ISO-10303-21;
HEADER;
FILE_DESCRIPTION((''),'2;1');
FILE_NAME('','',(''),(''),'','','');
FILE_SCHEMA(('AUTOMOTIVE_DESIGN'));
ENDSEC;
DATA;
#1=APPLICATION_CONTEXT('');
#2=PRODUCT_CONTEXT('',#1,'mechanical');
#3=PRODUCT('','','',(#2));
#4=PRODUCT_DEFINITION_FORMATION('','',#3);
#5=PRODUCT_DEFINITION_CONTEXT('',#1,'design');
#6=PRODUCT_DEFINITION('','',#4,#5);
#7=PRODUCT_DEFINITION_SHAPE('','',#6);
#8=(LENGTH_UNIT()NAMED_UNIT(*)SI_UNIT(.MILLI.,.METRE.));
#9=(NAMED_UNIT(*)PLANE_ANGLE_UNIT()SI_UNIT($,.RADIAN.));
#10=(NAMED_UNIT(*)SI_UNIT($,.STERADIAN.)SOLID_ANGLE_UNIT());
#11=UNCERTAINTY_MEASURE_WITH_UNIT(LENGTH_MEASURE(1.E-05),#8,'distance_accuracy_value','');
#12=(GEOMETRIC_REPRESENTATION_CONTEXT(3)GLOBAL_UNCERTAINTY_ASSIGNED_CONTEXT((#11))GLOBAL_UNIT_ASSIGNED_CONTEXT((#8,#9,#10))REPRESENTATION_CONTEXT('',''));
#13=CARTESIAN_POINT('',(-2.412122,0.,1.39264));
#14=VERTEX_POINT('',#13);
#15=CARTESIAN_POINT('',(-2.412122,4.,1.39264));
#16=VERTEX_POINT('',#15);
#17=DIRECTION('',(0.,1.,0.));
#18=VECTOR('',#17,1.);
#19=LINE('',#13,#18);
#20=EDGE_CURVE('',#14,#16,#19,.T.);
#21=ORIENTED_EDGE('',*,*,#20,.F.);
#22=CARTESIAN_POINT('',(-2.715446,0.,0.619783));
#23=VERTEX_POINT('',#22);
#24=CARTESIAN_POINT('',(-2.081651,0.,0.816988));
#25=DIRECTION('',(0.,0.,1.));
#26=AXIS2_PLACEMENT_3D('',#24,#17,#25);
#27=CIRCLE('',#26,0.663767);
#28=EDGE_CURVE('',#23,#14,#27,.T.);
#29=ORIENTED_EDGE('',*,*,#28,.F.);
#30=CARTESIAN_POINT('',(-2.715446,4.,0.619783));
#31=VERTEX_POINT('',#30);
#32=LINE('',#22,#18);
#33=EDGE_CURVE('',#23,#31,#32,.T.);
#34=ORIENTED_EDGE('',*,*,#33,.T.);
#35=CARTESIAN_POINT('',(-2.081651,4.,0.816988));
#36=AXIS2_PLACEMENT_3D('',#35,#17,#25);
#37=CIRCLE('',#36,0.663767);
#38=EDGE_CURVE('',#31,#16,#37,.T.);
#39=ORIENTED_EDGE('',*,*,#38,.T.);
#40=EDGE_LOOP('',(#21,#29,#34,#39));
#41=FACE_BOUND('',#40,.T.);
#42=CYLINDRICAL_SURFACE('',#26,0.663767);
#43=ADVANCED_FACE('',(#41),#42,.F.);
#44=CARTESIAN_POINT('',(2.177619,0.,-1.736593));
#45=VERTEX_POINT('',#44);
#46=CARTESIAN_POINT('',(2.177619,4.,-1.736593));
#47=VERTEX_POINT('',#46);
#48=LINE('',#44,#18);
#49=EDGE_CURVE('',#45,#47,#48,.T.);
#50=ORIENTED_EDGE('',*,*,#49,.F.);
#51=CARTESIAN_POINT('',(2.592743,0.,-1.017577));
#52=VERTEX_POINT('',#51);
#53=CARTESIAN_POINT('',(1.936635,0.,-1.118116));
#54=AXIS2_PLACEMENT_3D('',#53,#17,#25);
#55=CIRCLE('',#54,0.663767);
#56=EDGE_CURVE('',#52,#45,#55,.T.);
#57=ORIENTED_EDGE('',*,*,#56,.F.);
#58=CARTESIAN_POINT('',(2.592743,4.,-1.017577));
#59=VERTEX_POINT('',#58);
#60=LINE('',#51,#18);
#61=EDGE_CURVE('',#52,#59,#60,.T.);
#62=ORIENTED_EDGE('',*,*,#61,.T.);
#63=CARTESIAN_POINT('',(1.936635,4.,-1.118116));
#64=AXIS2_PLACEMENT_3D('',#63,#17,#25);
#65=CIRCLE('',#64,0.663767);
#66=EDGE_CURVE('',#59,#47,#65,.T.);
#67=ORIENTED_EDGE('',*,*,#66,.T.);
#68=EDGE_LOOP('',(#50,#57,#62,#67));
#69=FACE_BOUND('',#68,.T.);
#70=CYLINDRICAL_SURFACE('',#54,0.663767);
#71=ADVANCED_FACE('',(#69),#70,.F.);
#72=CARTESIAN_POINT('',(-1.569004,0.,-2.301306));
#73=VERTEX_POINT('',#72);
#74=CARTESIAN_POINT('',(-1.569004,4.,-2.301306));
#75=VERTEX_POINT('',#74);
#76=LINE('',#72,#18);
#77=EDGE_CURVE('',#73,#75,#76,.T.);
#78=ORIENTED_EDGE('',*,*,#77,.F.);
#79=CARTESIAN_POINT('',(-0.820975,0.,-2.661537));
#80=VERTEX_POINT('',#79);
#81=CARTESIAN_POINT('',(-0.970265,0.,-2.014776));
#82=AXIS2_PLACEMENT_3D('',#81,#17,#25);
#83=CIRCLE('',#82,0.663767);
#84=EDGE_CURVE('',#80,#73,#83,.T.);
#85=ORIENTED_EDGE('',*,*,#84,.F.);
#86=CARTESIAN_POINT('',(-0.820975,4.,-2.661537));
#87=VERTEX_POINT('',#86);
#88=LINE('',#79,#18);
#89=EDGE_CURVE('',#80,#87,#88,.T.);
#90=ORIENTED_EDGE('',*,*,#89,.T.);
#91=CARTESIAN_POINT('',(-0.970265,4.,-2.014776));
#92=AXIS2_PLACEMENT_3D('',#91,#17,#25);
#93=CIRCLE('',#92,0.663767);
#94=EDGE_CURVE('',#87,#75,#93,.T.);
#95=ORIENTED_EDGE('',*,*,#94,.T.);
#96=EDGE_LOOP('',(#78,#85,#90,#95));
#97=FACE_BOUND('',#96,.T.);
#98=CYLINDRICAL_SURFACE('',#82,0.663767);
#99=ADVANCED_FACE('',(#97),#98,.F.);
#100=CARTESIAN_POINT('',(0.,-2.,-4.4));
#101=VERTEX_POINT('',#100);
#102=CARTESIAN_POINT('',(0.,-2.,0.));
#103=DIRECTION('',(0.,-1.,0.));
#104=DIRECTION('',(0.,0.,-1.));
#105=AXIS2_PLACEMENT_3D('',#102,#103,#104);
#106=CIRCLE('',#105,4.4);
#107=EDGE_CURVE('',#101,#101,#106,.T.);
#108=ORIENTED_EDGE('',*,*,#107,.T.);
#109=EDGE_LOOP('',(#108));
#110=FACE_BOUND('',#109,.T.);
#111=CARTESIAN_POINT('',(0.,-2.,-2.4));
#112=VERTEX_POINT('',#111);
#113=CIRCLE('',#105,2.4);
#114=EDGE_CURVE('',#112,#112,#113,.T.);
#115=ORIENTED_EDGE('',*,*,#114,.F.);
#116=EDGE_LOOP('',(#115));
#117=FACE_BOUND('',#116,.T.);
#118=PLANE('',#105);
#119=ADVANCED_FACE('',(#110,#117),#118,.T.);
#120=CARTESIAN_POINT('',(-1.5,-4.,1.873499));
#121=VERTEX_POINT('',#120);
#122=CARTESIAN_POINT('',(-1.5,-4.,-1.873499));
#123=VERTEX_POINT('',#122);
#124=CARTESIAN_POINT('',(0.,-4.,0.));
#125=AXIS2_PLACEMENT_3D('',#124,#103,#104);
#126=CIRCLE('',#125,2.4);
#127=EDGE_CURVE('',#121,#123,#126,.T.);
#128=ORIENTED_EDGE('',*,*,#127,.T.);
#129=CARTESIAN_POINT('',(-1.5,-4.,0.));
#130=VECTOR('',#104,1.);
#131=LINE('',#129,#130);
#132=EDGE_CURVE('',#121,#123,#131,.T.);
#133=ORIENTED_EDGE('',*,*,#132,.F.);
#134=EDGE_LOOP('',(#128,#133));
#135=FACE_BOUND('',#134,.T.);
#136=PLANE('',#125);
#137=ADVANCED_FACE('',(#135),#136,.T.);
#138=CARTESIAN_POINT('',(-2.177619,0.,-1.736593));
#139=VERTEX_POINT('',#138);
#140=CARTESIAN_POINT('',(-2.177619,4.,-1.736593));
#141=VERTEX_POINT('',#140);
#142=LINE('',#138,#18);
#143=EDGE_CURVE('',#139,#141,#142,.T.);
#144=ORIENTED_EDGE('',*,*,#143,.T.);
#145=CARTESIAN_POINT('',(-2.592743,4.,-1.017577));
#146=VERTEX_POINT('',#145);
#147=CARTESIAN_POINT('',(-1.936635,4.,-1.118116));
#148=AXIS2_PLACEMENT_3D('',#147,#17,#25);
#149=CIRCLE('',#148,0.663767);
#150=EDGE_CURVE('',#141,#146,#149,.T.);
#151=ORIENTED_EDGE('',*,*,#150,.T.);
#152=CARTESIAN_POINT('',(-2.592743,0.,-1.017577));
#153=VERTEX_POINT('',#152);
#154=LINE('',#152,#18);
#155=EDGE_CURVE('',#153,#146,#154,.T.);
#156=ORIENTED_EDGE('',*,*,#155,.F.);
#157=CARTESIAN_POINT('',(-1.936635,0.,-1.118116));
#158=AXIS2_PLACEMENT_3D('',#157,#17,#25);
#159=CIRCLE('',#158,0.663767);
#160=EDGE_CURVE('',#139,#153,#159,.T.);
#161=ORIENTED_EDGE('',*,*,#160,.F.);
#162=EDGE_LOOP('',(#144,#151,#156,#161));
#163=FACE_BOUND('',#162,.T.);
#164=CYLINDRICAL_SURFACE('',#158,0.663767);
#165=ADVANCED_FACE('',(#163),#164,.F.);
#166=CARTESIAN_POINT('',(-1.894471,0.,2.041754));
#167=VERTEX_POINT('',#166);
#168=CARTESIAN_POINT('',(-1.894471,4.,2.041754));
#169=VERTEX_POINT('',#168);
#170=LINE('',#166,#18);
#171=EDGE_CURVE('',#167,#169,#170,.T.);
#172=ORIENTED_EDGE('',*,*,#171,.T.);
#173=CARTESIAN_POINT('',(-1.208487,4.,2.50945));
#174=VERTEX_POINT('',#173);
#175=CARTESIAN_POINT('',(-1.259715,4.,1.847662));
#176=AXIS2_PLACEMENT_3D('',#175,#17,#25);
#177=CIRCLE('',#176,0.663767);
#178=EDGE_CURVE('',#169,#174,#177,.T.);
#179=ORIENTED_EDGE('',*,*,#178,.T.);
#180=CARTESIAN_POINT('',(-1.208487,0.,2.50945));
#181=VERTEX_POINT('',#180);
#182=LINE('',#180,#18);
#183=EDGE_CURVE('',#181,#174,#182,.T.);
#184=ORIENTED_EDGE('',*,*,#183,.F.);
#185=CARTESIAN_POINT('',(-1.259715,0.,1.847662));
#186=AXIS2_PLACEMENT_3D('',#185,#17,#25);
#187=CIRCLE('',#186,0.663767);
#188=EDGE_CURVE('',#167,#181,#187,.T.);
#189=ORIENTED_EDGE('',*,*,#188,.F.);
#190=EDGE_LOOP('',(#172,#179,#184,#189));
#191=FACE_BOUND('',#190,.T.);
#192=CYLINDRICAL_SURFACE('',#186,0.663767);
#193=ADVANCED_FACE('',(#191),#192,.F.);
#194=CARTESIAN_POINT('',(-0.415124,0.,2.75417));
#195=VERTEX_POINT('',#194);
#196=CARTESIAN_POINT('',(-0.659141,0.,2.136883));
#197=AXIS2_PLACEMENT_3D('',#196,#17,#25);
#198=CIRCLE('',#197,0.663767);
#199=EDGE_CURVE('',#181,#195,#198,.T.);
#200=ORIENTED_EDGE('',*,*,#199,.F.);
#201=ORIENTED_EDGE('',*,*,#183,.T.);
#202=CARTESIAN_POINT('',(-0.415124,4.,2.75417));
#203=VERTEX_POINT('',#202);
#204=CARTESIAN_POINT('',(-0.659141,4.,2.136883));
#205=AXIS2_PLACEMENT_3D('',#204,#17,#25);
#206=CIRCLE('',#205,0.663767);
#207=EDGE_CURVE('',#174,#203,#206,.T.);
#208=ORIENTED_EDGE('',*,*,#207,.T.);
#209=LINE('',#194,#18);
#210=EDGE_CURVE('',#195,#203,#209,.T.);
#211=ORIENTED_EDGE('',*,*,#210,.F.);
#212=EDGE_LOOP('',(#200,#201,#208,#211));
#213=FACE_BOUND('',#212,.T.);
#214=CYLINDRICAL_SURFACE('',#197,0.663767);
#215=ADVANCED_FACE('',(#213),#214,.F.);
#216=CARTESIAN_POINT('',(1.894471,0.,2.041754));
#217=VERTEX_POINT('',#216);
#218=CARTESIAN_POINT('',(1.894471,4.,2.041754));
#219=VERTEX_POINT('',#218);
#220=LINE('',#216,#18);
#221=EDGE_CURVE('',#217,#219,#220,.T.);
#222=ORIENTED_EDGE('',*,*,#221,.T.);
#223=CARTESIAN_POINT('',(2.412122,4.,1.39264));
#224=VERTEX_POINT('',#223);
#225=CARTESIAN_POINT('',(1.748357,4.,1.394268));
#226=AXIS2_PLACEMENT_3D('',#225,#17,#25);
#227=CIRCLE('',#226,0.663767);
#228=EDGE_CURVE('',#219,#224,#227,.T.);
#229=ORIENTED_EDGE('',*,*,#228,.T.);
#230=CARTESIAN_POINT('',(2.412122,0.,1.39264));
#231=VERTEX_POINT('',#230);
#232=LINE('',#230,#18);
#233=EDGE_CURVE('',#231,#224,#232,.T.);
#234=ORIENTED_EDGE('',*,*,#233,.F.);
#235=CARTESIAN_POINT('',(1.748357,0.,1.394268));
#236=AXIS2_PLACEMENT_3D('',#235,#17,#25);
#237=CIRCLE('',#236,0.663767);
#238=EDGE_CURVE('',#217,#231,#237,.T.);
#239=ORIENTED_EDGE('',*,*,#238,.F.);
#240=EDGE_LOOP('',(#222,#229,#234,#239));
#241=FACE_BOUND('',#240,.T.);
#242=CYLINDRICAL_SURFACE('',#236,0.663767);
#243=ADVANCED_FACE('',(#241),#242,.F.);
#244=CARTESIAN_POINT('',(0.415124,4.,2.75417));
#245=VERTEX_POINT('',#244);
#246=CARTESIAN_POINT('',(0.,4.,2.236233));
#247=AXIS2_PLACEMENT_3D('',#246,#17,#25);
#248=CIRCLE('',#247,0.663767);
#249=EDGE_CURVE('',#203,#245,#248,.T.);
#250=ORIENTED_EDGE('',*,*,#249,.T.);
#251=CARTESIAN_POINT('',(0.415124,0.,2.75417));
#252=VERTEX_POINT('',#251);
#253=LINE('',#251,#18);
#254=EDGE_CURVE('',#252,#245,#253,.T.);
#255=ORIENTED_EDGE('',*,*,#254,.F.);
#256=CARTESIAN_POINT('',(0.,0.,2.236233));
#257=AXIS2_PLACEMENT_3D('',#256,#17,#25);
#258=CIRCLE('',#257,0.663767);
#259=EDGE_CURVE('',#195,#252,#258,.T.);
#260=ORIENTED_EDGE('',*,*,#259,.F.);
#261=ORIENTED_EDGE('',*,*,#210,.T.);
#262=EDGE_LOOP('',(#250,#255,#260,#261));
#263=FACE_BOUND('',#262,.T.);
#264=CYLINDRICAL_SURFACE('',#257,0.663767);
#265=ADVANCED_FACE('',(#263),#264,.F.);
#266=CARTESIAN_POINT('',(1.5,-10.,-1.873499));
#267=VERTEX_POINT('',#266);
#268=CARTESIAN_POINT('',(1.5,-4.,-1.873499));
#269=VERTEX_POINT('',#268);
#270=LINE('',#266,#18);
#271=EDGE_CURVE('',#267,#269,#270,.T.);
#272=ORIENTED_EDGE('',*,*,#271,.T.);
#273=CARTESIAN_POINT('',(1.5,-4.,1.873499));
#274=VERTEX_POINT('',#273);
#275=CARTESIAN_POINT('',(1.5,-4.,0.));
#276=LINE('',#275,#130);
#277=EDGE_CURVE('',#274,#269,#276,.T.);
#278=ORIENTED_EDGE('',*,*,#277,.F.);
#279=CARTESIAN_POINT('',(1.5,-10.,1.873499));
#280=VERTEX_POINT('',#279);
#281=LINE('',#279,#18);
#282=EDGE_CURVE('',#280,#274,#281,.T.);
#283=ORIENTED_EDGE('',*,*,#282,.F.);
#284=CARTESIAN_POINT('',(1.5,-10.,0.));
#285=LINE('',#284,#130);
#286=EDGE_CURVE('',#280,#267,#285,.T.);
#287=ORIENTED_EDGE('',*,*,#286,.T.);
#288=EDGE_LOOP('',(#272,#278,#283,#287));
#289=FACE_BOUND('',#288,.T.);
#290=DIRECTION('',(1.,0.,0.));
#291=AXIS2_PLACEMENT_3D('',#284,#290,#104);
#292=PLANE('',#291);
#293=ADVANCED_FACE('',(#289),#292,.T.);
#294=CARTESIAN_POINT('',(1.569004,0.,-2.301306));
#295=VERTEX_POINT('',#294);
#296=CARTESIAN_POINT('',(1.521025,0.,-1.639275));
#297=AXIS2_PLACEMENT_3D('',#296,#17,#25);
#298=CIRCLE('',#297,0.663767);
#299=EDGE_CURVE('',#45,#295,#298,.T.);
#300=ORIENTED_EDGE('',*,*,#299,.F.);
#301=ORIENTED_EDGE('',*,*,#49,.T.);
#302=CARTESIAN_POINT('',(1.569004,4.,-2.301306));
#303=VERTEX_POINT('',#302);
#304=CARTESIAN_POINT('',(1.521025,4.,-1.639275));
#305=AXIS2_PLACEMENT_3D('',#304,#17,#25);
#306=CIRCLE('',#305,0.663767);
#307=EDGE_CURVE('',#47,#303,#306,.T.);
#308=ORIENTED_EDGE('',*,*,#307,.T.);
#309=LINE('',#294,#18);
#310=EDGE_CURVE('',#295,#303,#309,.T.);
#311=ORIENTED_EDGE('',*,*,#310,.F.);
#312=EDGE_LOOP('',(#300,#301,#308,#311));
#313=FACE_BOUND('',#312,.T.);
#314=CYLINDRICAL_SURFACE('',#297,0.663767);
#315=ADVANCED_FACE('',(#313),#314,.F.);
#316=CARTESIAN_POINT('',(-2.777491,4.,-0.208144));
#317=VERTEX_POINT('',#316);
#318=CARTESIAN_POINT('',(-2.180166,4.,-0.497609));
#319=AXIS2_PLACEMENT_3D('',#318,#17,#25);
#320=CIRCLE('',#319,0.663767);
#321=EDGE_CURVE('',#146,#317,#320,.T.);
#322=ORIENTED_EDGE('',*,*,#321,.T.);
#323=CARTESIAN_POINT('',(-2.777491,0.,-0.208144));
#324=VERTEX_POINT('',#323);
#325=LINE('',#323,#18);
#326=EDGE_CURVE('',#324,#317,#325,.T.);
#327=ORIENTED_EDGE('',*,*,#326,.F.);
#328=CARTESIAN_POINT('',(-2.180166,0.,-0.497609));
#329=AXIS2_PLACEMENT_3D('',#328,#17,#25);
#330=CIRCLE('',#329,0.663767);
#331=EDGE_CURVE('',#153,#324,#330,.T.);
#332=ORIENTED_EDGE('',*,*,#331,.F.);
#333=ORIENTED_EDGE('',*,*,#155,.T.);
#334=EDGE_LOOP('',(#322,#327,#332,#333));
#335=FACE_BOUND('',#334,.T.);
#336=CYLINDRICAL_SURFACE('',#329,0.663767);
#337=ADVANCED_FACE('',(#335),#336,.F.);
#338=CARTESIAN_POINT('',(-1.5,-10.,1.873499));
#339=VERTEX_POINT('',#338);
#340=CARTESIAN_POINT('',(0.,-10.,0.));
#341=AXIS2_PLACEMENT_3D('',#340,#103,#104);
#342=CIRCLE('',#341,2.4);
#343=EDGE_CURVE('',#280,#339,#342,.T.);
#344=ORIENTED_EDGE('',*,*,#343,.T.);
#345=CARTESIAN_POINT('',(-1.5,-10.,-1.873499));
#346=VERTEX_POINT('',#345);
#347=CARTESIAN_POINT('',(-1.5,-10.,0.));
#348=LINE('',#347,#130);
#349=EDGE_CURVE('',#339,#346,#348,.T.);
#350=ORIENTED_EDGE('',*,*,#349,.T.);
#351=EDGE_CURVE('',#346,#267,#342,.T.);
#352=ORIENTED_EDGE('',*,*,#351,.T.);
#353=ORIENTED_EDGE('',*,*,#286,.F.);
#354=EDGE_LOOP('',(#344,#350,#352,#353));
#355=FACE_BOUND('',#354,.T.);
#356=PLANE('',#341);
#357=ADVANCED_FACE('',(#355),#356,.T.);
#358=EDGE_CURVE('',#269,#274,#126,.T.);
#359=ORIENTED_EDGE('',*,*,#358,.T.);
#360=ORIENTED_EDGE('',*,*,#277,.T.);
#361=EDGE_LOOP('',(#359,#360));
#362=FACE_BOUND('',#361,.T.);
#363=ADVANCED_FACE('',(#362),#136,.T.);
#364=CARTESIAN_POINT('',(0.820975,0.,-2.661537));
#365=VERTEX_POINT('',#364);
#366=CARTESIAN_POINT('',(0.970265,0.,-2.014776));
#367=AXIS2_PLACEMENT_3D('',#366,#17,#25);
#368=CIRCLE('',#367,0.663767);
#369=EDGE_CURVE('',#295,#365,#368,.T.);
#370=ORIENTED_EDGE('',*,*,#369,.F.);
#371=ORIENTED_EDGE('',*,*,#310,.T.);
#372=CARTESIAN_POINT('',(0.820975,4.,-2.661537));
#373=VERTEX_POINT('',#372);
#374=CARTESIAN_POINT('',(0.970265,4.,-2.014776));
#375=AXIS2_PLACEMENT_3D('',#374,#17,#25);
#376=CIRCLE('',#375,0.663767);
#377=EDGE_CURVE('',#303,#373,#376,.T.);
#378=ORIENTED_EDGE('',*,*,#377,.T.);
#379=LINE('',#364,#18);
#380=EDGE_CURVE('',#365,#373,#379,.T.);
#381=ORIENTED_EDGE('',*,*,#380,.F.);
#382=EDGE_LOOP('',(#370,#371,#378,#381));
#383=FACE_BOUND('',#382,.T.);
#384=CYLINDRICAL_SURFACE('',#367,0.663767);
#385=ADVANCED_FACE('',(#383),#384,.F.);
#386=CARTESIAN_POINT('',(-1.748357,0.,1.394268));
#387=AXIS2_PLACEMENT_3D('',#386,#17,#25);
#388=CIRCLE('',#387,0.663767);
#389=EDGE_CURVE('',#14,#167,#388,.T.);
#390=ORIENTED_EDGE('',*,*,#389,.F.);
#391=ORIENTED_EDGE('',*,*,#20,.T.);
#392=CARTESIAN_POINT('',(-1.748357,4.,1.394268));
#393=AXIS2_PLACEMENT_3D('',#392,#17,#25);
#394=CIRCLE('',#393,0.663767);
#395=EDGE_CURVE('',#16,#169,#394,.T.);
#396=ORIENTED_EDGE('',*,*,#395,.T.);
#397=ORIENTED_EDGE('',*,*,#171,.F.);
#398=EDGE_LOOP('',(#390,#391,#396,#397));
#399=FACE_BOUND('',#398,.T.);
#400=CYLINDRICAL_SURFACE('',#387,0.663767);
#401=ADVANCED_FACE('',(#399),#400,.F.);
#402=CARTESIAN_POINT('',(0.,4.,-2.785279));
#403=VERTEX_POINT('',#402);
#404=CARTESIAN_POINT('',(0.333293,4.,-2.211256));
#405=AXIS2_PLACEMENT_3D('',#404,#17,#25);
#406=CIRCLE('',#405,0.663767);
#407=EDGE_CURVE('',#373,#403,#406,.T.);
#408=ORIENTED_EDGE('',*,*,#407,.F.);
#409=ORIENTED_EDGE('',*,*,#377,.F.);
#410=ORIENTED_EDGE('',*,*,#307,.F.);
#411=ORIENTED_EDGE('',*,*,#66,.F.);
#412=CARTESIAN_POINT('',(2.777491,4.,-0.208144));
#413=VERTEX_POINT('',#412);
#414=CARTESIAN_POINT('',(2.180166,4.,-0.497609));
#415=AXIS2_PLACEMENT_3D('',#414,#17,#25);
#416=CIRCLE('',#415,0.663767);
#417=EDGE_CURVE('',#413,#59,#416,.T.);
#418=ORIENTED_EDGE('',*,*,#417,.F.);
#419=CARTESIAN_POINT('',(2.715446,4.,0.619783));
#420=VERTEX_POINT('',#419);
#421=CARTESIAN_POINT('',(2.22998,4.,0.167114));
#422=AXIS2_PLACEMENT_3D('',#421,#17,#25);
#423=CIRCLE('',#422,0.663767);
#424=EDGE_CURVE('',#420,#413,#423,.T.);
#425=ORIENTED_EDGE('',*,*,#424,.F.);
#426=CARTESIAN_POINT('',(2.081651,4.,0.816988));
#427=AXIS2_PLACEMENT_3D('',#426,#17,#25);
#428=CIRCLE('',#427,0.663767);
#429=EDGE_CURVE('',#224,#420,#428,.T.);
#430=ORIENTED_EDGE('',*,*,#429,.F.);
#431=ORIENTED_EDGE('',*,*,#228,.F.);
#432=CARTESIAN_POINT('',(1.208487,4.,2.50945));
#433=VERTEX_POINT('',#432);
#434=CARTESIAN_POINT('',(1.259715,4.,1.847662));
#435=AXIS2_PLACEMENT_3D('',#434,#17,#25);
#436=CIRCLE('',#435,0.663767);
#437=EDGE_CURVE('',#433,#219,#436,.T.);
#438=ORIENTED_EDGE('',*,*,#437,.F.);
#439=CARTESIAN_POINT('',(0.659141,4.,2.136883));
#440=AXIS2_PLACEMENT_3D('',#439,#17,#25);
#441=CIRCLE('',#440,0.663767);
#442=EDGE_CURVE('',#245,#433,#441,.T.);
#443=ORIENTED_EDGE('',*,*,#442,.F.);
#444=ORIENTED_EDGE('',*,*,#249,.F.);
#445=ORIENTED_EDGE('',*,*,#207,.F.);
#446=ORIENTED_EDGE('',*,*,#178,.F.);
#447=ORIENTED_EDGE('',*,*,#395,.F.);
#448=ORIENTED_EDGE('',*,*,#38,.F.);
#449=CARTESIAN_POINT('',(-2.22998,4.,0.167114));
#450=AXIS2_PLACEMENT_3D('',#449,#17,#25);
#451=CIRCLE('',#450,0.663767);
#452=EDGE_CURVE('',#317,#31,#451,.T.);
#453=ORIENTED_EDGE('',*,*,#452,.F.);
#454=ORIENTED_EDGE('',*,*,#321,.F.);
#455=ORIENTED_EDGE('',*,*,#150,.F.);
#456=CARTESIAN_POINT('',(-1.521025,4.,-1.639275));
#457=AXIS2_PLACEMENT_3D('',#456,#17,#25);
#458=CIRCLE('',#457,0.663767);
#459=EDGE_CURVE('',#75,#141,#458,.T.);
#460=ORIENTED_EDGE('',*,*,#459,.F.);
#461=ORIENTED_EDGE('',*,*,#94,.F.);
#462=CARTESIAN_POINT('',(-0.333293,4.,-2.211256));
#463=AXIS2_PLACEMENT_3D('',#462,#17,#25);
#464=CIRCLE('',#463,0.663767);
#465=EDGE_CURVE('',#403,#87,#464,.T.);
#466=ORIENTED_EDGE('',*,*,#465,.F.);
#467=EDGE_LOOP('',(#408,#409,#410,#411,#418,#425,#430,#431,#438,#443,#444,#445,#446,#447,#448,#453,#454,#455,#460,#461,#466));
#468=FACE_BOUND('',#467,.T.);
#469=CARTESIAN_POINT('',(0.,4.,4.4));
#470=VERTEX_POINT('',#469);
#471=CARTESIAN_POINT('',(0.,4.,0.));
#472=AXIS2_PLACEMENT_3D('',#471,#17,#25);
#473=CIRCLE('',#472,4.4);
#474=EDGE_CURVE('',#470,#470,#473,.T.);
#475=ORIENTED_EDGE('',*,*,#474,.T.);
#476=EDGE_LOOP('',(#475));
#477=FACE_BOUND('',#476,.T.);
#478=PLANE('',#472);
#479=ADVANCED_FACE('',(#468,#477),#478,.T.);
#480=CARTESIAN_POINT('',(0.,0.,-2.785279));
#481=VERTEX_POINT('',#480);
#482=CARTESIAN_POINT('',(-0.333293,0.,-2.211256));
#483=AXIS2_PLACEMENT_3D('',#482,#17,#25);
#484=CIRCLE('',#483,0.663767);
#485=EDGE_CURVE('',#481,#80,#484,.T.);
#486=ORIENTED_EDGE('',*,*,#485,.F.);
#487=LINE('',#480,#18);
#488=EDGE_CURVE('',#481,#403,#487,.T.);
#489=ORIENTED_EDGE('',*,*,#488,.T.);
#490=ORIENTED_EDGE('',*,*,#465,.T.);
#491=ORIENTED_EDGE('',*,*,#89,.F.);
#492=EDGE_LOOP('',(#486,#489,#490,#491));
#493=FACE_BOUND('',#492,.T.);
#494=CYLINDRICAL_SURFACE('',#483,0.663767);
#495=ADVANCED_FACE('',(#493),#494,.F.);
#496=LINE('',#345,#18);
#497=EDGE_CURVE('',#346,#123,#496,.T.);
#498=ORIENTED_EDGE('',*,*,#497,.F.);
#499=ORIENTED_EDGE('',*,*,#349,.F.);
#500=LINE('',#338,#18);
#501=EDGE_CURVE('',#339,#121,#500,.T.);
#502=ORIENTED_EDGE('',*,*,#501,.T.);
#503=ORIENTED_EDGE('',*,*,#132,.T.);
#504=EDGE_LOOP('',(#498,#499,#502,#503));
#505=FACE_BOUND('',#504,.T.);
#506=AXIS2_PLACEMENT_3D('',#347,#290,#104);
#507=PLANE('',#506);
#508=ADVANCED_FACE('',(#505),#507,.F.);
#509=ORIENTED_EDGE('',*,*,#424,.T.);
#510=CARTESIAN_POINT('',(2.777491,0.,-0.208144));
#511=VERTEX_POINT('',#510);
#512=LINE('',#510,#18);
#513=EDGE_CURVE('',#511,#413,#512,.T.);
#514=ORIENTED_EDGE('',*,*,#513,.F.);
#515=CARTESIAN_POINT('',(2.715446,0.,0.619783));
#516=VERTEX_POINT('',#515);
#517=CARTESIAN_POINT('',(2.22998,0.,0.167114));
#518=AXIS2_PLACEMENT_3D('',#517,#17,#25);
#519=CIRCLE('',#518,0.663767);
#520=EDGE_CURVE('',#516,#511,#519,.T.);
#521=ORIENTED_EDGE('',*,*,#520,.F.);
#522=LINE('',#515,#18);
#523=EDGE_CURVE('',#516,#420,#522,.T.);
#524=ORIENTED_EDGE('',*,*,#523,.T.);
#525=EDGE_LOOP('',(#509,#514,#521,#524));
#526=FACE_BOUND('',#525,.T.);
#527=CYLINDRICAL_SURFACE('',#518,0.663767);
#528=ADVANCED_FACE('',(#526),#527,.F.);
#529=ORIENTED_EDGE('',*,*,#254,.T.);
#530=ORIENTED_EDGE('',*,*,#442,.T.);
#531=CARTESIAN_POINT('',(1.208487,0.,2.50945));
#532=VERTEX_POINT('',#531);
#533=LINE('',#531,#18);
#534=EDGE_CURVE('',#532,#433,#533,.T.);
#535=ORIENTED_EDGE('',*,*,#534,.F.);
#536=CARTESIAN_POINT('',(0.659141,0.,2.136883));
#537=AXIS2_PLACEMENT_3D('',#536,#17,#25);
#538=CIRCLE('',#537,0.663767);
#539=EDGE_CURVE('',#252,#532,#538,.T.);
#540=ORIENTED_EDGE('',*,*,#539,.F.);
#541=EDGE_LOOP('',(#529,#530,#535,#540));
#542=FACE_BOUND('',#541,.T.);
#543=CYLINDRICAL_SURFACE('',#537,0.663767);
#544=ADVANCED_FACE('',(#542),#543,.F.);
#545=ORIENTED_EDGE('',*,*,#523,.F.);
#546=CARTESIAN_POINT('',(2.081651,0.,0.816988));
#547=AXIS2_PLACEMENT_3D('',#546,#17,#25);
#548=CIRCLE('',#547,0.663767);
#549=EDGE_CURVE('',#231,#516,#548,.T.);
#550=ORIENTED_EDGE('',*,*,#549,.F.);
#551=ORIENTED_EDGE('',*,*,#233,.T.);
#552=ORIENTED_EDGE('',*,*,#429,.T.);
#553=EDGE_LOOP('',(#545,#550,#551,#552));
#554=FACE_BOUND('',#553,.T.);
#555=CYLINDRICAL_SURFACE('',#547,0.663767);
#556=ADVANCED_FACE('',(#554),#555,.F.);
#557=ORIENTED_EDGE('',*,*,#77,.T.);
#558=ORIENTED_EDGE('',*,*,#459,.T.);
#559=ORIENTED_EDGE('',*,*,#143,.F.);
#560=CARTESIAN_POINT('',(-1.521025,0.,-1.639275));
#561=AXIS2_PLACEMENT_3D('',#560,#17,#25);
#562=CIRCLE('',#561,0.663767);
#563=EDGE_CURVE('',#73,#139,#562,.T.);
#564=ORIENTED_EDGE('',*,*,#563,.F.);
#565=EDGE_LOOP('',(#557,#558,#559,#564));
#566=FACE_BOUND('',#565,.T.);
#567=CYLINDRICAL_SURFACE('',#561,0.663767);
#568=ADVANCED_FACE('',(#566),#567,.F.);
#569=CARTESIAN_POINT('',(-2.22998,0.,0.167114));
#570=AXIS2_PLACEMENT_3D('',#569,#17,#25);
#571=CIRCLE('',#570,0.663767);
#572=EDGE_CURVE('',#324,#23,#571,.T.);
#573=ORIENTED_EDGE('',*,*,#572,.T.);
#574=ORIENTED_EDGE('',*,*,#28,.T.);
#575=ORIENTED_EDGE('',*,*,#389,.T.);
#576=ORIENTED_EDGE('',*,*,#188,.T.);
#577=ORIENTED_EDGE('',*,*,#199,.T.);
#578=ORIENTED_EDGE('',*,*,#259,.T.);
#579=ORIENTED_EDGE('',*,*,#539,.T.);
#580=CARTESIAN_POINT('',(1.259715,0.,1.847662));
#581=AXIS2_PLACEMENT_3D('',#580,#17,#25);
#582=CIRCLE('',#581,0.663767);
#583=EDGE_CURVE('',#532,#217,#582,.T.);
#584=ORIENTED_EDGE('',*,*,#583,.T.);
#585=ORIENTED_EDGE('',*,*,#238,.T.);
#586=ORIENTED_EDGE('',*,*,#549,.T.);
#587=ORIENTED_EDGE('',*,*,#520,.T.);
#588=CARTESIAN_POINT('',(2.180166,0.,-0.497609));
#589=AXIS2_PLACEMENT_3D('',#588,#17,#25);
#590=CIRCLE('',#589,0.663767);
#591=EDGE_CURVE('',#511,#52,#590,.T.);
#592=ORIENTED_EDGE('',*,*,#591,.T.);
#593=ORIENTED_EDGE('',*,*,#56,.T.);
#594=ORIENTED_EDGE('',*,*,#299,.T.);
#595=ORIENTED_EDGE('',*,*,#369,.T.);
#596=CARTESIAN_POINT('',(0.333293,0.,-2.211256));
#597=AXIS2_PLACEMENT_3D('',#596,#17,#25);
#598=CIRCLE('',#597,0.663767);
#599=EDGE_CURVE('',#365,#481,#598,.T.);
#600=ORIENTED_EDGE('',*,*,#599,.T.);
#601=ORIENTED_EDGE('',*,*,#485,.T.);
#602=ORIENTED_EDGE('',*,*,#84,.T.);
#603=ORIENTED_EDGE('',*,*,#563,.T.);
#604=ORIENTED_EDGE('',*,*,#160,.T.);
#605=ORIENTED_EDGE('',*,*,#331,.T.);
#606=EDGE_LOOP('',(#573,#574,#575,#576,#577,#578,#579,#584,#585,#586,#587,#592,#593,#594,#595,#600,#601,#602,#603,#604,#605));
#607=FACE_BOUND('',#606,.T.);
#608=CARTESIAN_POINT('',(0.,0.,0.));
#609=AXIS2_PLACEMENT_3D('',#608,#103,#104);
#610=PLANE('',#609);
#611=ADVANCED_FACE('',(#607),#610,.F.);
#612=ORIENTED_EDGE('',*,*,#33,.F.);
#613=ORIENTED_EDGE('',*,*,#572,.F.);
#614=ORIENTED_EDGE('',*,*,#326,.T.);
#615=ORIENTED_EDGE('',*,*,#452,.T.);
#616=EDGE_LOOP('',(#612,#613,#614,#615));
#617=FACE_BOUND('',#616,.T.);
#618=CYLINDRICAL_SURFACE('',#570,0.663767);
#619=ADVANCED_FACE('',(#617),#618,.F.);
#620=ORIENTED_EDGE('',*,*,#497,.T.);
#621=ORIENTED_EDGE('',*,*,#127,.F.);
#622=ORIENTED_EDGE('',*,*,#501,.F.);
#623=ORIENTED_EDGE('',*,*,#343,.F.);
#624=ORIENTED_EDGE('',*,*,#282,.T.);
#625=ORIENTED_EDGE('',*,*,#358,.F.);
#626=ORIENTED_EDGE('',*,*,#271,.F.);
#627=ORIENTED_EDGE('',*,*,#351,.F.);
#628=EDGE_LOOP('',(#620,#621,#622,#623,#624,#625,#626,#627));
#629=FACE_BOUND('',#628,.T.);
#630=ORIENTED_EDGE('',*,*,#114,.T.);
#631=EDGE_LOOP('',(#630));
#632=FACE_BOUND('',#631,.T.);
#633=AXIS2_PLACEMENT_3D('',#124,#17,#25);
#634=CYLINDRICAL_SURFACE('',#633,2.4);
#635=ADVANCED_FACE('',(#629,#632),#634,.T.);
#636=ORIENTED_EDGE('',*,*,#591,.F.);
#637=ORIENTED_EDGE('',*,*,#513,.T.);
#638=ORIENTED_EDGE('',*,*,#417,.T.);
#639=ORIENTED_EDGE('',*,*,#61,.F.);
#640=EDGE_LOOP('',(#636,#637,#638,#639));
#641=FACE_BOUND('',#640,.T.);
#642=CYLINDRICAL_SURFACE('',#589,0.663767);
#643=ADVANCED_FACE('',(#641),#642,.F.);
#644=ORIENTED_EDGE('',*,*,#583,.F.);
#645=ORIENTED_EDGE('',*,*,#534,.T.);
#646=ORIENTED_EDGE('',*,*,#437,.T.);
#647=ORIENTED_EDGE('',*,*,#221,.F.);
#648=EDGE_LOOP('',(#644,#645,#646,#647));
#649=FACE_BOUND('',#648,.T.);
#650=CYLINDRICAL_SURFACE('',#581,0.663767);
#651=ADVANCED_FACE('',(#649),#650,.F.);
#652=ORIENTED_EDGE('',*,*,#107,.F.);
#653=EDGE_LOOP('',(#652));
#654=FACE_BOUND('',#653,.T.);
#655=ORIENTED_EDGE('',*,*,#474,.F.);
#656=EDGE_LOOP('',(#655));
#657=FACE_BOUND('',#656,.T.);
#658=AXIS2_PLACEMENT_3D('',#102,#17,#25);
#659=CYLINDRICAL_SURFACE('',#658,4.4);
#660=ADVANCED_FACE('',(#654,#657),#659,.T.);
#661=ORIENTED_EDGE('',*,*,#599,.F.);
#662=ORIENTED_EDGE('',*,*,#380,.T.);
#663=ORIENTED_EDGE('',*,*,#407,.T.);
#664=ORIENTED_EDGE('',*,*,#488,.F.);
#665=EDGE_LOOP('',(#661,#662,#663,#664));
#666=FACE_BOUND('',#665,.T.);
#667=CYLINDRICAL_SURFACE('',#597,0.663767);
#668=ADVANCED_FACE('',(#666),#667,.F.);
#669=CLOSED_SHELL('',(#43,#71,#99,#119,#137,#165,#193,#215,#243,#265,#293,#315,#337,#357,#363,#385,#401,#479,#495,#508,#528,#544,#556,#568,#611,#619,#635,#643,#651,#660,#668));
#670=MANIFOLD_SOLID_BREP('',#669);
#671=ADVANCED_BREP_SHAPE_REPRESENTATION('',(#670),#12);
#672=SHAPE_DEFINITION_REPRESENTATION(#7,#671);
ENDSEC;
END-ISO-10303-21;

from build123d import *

# Parameters (mm, degrees)
SKETCH1_R           = 3.95
BOSS_EXTRUDE1_DEPTH = 4
SKETCH2_R           = 4.4
BOSS_EXTRUDE2_DEPTH = 2
SKETCH4_R           = 2.4
BOSS_EXTRUDE3_DEPTH = 2
BOSS_EXTRUDE4_DEPTH = 6
SKETCH6_R           = 4.4
SKETCH6_R_2         = 3.95
BOSS_EXTRUDE5_DEPTH = 4
CUT_EXTRUDE1_START  = -4
CUT_EXTRUDE1_DEPTH  = 4
CUT_EXTRUDE2_START  = -4
CUT_EXTRUDE2_DEPTH  = 4
BOSS_EXTRUDE6_START = -4
BOSS_EXTRUDE6_DEPTH = 4


with BuildPart() as part:
    # Sketch1 → Boss-Extrude1 (new body)
    with BuildSketch(Plane(origin=(0, 0, 0), x_dir=(1, 0, 0), z_dir=(0, 1, 0))):
        Circle(SKETCH1_R)
        with BuildLine():
            ThreePointArc((-0.166646614, 2.345141313), (-0.092401566, 2.286261662), (0, 2.2652595))
            ThreePointArc((0, 2.2652595), (0.092401566, 2.286261662), (0.166646614, 2.345141313))
            ThreePointArc((0.166646614, 2.345141313), (0.365153552, 2.422635524), (0.531999564, 2.290073216))
            ThreePointArc((0.531999564, 2.290073216), (0.585591031, 2.211925311), (0.667696959, 2.164620376))
            ThreePointArc((0.667696959, 2.164620376), (0.762183879, 2.157453631), (0.850485509, 2.191833312))
            ThreePointArc((0.850485509, 2.191833312), (1.063015161, 2.207373726), (1.183375246, 2.031522064))
            ThreePointArc((1.183375246, 2.031522064), (1.211551295, 1.941049689), (1.276066113, 1.871645232))
            ThreePointArc((1.276066113, 1.871645232), (1.364242809, 1.836946378), (1.458755034, 1.843771303))
            ThreePointArc((1.458755034, 1.843771303), (1.666423208, 1.795977086), (1.729602845, 1.592461261))
            ThreePointArc((1.729602845, 1.592461261), (1.72985991, 1.497703284), (1.771051193, 1.412366197))
            ThreePointArc((1.771051193, 1.412366197), (1.845082779, 1.353218377), (1.937407773, 1.331882123))
            ThreePointArc((1.937407773, 1.331882123), (2.121762239, 1.225), (2.12214764, 1.011903287))
            ThreePointArc((2.12214764, 1.011903287), (2.094462881, 0.92127937), (2.108670602, 0.827592226))
            ThreePointArc((2.108670602, 0.827592226), (2.161979047, 0.749250985), (2.243913329, 0.701649371))
            ThreePointArc((2.243913329, 0.701649371), (2.388573385, 0.545176288), (2.326130305, 0.341433266))
            ThreePointArc((2.326130305, 0.341433266), (2.272963633, 0.262995741), (2.258925375, 0.169283054))
            ThreePointArc((2.258925375, 0.169283054), (2.286773988, 0.078709355), (2.351037339, 0.009071994))
            ThreePointArc((2.351037339, 0.009071994), (2.443149303, -0.183088729), (2.323426084, -0.3593746))
            ThreePointArc((2.323426084, -0.3593746), (2.249501592, -0.418656214), (2.208464714, -0.504067659))
            ThreePointArc((2.208464714, -0.504067659), (2.208379026, -0.598825947), (2.249261363, -0.68431147))
            ThreePointArc((2.249261363, -0.68431147), (2.280640684, -0.89508551), (2.114275259, -1.028250455))
            ThreePointArc((2.114275259, -1.028250455), (2.026161462, -1.063108727), (1.961772273, -1.13262975))
            ThreePointArc((1.961772273, -1.13262975), (1.933759896, -1.223152935), (1.947628645, -1.316890857))
            ThreePointArc((1.947628645, -1.316890857), (1.915487132, -1.527550015), (1.717261799, -1.605761745))
            ThreePointArc((1.717261799, -1.605761745), (1.622787995, -1.613099364), (1.540767756, -1.660552716))
            ThreePointArc((1.540767756, -1.660552716), (1.487317713, -1.738797417), (1.472940575, -1.832458712))
            ThreePointArc((1.472940575, -1.832458712), (1.380134142, -2.024284997), (1.167662092, -2.040594058))
            ThreePointArc((1.167662092, -2.040594058), (1.075222693, -2.019759044), (0.982859262, -2.040928287))
            ThreePointArc((0.982859262, -2.040928287), (0.908720824, -2.099942118), (0.86737527, -2.185204569))
            ThreePointArc((0.86737527, -2.185204569), (0.722150177, -2.341153374), (0.514310485, -2.294110633))
            ThreePointArc((0.514310485, -2.294110633), (0.432119136, -2.246954269), (0.337619409, -2.239958423))
            ThreePointArc((0.337619409, -2.239958423), (0.249380102, -2.274497747), (0.184739867, -2.343785411))
            ThreePointArc((0.184739867, -2.343785411), (0, -2.45), (-0.184739867, -2.343785411))
            ThreePointArc((-0.184739867, -2.343785411), (-0.249380102, -2.274497747), (-0.337619409, -2.239958423))
            ThreePointArc((-0.337619409, -2.239958423), (-0.432119136, -2.246954269), (-0.514310485, -2.294110633))
            ThreePointArc((-0.514310485, -2.294110633), (-0.722150177, -2.341153374), (-0.86737527, -2.185204569))
            ThreePointArc((-0.86737527, -2.185204569), (-0.908720824, -2.099942118), (-0.982859262, -2.040928287))
            ThreePointArc((-0.982859262, -2.040928287), (-1.075222693, -2.019759044), (-1.167662092, -2.040594058))
            ThreePointArc((-1.167662092, -2.040594058), (-1.380134142, -2.024284997), (-1.472940575, -1.832458712))
            ThreePointArc((-1.472940575, -1.832458712), (-1.487317713, -1.738797417), (-1.540767756, -1.660552716))
            ThreePointArc((-1.540767756, -1.660552716), (-1.622787995, -1.613099364), (-1.717261799, -1.605761745))
            ThreePointArc((-1.717261799, -1.605761745), (-1.915487132, -1.527550015), (-1.947628645, -1.316890857))
            ThreePointArc((-1.947628645, -1.316890857), (-1.933759896, -1.223152935), (-1.961772273, -1.13262975))
            ThreePointArc((-1.961772273, -1.13262975), (-2.026161462, -1.063108727), (-2.114275259, -1.028250455))
            ThreePointArc((-2.114275259, -1.028250455), (-2.280640684, -0.89508551), (-2.249261363, -0.68431147))
            ThreePointArc((-2.249261363, -0.68431147), (-2.208379026, -0.598825947), (-2.208464714, -0.504067659))
            ThreePointArc((-2.208464714, -0.504067659), (-2.249501592, -0.418656214), (-2.323426084, -0.3593746))
            ThreePointArc((-2.323426084, -0.3593746), (-2.443149303, -0.183088729), (-2.351037339, 0.009071994))
            ThreePointArc((-2.351037339, 0.009071994), (-2.286773988, 0.078709355), (-2.258925375, 0.169283054))
            ThreePointArc((-2.258925375, 0.169283054), (-2.272963633, 0.262995741), (-2.326130305, 0.341433266))
            ThreePointArc((-2.326130305, 0.341433266), (-2.388573385, 0.545176288), (-2.243913329, 0.701649371))
            ThreePointArc((-2.243913329, 0.701649371), (-2.161979047, 0.749250985), (-2.108670602, 0.827592226))
            ThreePointArc((-2.108670602, 0.827592226), (-2.094462881, 0.92127937), (-2.12214764, 1.011903287))
            ThreePointArc((-2.12214764, 1.011903287), (-2.121762239, 1.225), (-1.937407773, 1.331882123))
            ThreePointArc((-1.937407773, 1.331882123), (-1.845082779, 1.353218377), (-1.771051193, 1.412366197))
            ThreePointArc((-1.771051193, 1.412366197), (-1.72985991, 1.497703284), (-1.729602845, 1.592461261))
            ThreePointArc((-1.729602845, 1.592461261), (-1.666423208, 1.795977086), (-1.458755034, 1.843771303))
            ThreePointArc((-1.458755034, 1.843771303), (-1.364242809, 1.836946378), (-1.276066113, 1.871645232))
            ThreePointArc((-1.276066113, 1.871645232), (-1.211551295, 1.941049689), (-1.183375246, 2.031522064))
            ThreePointArc((-1.183375246, 2.031522064), (-1.063015161, 2.207373726), (-0.850485509, 2.191833312))
            ThreePointArc((-0.850485509, 2.191833312), (-0.762183879, 2.157453631), (-0.667696959, 2.164620376))
            ThreePointArc((-0.667696959, 2.164620376), (-0.585591031, 2.211925311), (-0.531999564, 2.290073216))
            ThreePointArc((-0.531999564, 2.290073216), (-0.365153552, 2.422635524), (-0.166646614, 2.345141313))
        make_face(mode=Mode.SUBTRACT)
    extrude(amount=BOSS_EXTRUDE1_DEPTH)

    # Sketch2 → Boss-Extrude2 (add)
    with BuildSketch(Plane.XZ):
        Circle(SKETCH2_R)
    extrude(amount=BOSS_EXTRUDE2_DEPTH)

    # Sketch4 → Boss-Extrude3 (add)
    with BuildSketch(Plane.XZ.offset(2)):
        Circle(SKETCH4_R)
    extrude(amount=BOSS_EXTRUDE3_DEPTH)

    # Sketch5 → Boss-Extrude4 (add)
    with BuildSketch(Plane.XZ.offset(4)):
        with BuildLine():
            ThreePointArc((1.5, 1.8734994), (0, 2.4), (-1.5, 1.8734994))
            Line((-1.5, 1.8734994), (-1.5, -1.8734994))
            ThreePointArc((-1.5, -1.8734994), (0, -2.4), (1.5, -1.8734994))
            Line((1.5, -1.8734994), (1.5, 1.8734994))
        make_face()
    extrude(amount=BOSS_EXTRUDE4_DEPTH)

    # Sketch6 → Boss-Extrude5 (add)
    with BuildSketch(Plane(origin=(0, 0, 0), x_dir=(1, 0, 0), z_dir=(0, 1, 0))):
        Circle(SKETCH6_R)
        Circle(SKETCH6_R_2, mode=Mode.SUBTRACT)
    extrude(amount=BOSS_EXTRUDE5_DEPTH)

    # Sketch8 → Cut-Extrude1 (cut)
    with BuildSketch(Plane(origin=(0, 4, 0), x_dir=(1, 0, 0), z_dir=(0, 1, 0)).offset(CUT_EXTRUDE1_START)):
        with BuildLine():
            ThreePointArc((2.526654558, 0.189346583), (2.629361338, 0.382268482), (2.632305363, 0.600806522))
            ThreePointArc((2.632305363, 0.600806522), (2.534832787, 0.796425127), (2.3585915, 0.92567895))
            ThreePointArc((2.3585915, 0.92567895), (2.33826859, 1.35), (1.980957237, 1.579760681))
            ThreePointArc((1.980957237, 1.579760681), (1.836466392, 1.979240054), (1.42730623, 2.093473742))
            ThreePointArc((1.42730623, 2.093473742), (1.171486096, 2.432615943), (0.746832801, 2.421172474))
            ThreePointArc((0.746832801, 2.421172474), (0.402414119, 2.669843231), (0, 2.533739407))
            ThreePointArc((0, 2.533739407), (-0.402414119, 2.669843231), (-0.746832801, 2.421172474))
            ThreePointArc((-0.746832801, 2.421172474), (-1.171486096, 2.432615943), (-1.42730623, 2.093473742))
            ThreePointArc((-1.42730623, 2.093473742), (-1.836466392, 1.979240054), (-1.980957237, 1.579760681))
            ThreePointArc((-1.980957237, 1.579760681), (-2.33826859, 1.35), (-2.3585915, 0.92567895))
            ThreePointArc((-2.3585915, 0.92567895), (-2.632305363, 0.600806522), (-2.526654558, 0.189346583))
            ThreePointArc((-2.526654558, 0.189346583), (-2.692450252, -0.201771253), (-2.47021327, -0.563810059))
            ThreePointArc((-2.47021327, -0.563810059), (-2.513359121, -0.986420766), (-2.194282693, -1.266869704))
            ThreePointArc((-2.194282693, -1.266869704), (-2.110945003, -1.683422465), (-1.723380469, -1.857362415))
            ThreePointArc((-1.723380469, -1.857362415), (-1.520964157, -2.230844691), (-1.099348328, -2.282820325))
            ThreePointArc((-1.099348328, -2.282820325), (-0.795838971, -2.580046576), (-0.377634263, -2.505439631))
            ThreePointArc((-0.377634263, -2.505439631), (0, -2.7), (0.377634263, -2.505439631))
            ThreePointArc((0.377634263, -2.505439631), (0.795838971, -2.580046576), (1.099348328, -2.282820325))
            ThreePointArc((1.099348328, -2.282820325), (1.520964157, -2.230844691), (1.723380469, -1.857362415))
            ThreePointArc((1.723380469, -1.857362415), (2.110945003, -1.683422465), (2.194282693, -1.266869704))
            ThreePointArc((2.194282693, -1.266869704), (2.513359121, -0.986420766), (2.47021327, -0.563810059))
            ThreePointArc((2.47021327, -0.563810059), (2.692450252, -0.201771253), (2.526654558, 0.189346583))
        make_face()
        with BuildLine():
            ThreePointArc((2.243913329, 0.701649371), (2.337130966, 0.642723516), (2.388573385, 0.545176288))
            ThreePointArc((2.388573385, 0.545176288), (2.384549523, 0.434969243), (2.326130305, 0.341433266))
            ThreePointArc((2.326130305, 0.341433266), (2.258925375, 0.169283054), (2.351037339, 0.009071994))
            ThreePointArc((2.351037339, 0.009071994), (2.443149303, -0.183088729), (2.323426084, -0.3593746))
            ThreePointArc((2.323426084, -0.3593746), (2.208464714, -0.504067659), (2.249261363, -0.68431147))
            ThreePointArc((2.249261363, -0.68431147), (2.280640684, -0.89508551), (2.114275259, -1.028250455))
            ThreePointArc((2.114275259, -1.028250455), (1.961772273, -1.13262975), (1.947628645, -1.316890857))
            ThreePointArc((1.947628645, -1.316890857), (1.915487132, -1.527550015), (1.717261799, -1.605761745))
            ThreePointArc((1.717261799, -1.605761745), (1.540767756, -1.660552716), (1.472940575, -1.832458712))
            ThreePointArc((1.472940575, -1.832458712), (1.380134142, -2.024284997), (1.167662092, -2.040594058))
            ThreePointArc((1.167662092, -2.040594058), (0.982859262, -2.040928287), (0.86737527, -2.185204569))
            ThreePointArc((0.86737527, -2.185204569), (0.722150177, -2.341153374), (0.514310485, -2.294110633))
            ThreePointArc((0.514310485, -2.294110633), (0.337619409, -2.239958423), (0.184739867, -2.343785411))
            ThreePointArc((0.184739867, -2.343785411), (0, -2.45), (-0.184739867, -2.343785411))
            ThreePointArc((-0.184739867, -2.343785411), (-0.337619409, -2.239958423), (-0.514310485, -2.294110633))
            ThreePointArc((-0.514310485, -2.294110633), (-0.722150177, -2.341153374), (-0.86737527, -2.185204569))
            ThreePointArc((-0.86737527, -2.185204569), (-0.982859262, -2.040928287), (-1.167662092, -2.040594058))
            ThreePointArc((-1.167662092, -2.040594058), (-1.380134142, -2.024284997), (-1.472940575, -1.832458712))
            ThreePointArc((-1.472940575, -1.832458712), (-1.540767756, -1.660552716), (-1.717261799, -1.605761745))
            ThreePointArc((-1.717261799, -1.605761745), (-1.915487132, -1.527550015), (-1.947628645, -1.316890857))
            ThreePointArc((-1.947628645, -1.316890857), (-1.961772273, -1.13262975), (-2.114275259, -1.028250455))
            ThreePointArc((-2.114275259, -1.028250455), (-2.280640684, -0.89508551), (-2.249261363, -0.68431147))
            ThreePointArc((-2.249261363, -0.68431147), (-2.208464714, -0.504067659), (-2.323426084, -0.3593746))
            ThreePointArc((-2.323426084, -0.3593746), (-2.443149303, -0.183088729), (-2.351037339, 0.009071994))
            ThreePointArc((-2.351037339, 0.009071994), (-2.258925375, 0.169283054), (-2.326130305, 0.341433266))
            ThreePointArc((-2.326130305, 0.341433266), (-2.388573385, 0.545176288), (-2.243913329, 0.701649371))
            ThreePointArc((-2.243913329, 0.701649371), (-2.108670602, 0.827592226), (-2.12214764, 1.011903287))
            ThreePointArc((-2.12214764, 1.011903287), (-2.121762239, 1.225), (-1.937407773, 1.331882123))
            ThreePointArc((-1.937407773, 1.331882123), (-1.771051193, 1.412366197), (-1.729602845, 1.592461261))
            ThreePointArc((-1.729602845, 1.592461261), (-1.666423208, 1.795977086), (-1.458755034, 1.843771303))
            ThreePointArc((-1.458755034, 1.843771303), (-1.276066113, 1.871645232), (-1.183375246, 2.031522064))
            ThreePointArc((-1.183375246, 2.031522064), (-1.063015161, 2.207373726), (-0.850485509, 2.191833312))
            ThreePointArc((-0.850485509, 2.191833312), (-0.667696959, 2.164620376), (-0.531999564, 2.290073216))
            ThreePointArc((-0.531999564, 2.290073216), (-0.365153552, 2.422635524), (-0.166646614, 2.345141313))
            ThreePointArc((-0.166646614, 2.345141313), (0, 2.2652595), (0.166646614, 2.345141313))
            ThreePointArc((0.166646614, 2.345141313), (0.365153552, 2.422635524), (0.531999564, 2.290073216))
            ThreePointArc((0.531999564, 2.290073216), (0.667696959, 2.164620376), (0.850485509, 2.191833312))
            ThreePointArc((0.850485509, 2.191833312), (1.063015161, 2.207373726), (1.183375246, 2.031522064))
            ThreePointArc((1.183375246, 2.031522064), (1.276066113, 1.871645232), (1.458755034, 1.843771303))
            ThreePointArc((1.458755034, 1.843771303), (1.666423208, 1.795977086), (1.729602845, 1.592461261))
            ThreePointArc((1.729602845, 1.592461261), (1.771051193, 1.412366197), (1.937407773, 1.331882123))
            ThreePointArc((1.937407773, 1.331882123), (2.121762239, 1.225), (2.12214764, 1.011903287))
            ThreePointArc((2.12214764, 1.011903287), (2.108670602, 0.827592226), (2.243913329, 0.701649371))
        make_face(mode=Mode.SUBTRACT)
    extrude(amount=CUT_EXTRUDE1_DEPTH, mode=Mode.SUBTRACT)

    # Sketch8<3> → Cut-Extrude2 (cut)
    with BuildSketch(Plane(origin=(0, 4, 0), x_dir=(1, 0, 0), z_dir=(0, 1, 0)).offset(CUT_EXTRUDE2_START)):
        with BuildLine():
            ThreePointArc((-1.755056494, 2.574195088), (-2.176552761, 2.34576599), (-2.43584158, 1.94251884))
            ThreePointArc((-2.43584158, 1.94251884), (-2.771281292, 1.6), (-2.900191453, 1.138241268))
            ThreePointArc((-2.900191453, 1.138241268), (-3.119769319, 0.712066989), (-3.106846588, 0.232825965))
            ThreePointArc((-3.106846588, 0.232825965), (-3.191052151, -0.239136299), (-3.037444769, -0.693276947))
            ThreePointArc((-3.037444769, -0.693276947), (-2.978795996, -1.169091278), (-2.698152653, -1.55777916))
            ThreePointArc((-2.698152653, -1.55777916), (-2.501860744, -1.995167366), (-2.119117833, -2.283865859))
            ThreePointArc((-2.119117833, -2.283865859), (-1.802624186, -2.643964078), (-1.351790094, -2.807021053))
            ThreePointArc((-1.351790094, -2.807021053), (-0.943216558, -3.057832979), (-0.464349872, -3.080760108))
            ThreePointArc((-0.464349872, -3.080760108), (0, -3.2), (0.464349872, -3.080760108))
            ThreePointArc((0.464349872, -3.080760108), (0.943216558, -3.057832979), (1.351790094, -2.807021053))
            ThreePointArc((1.351790094, -2.807021053), (1.802624186, -2.643964078), (2.119117833, -2.283865859))
            ThreePointArc((2.119117833, -2.283865859), (2.501860744, -1.995167366), (2.698152653, -1.55777916))
            ThreePointArc((2.698152653, -1.55777916), (2.978795996, -1.169091278), (3.037444769, -0.693276947))
            ThreePointArc((3.037444769, -0.693276947), (3.191052151, -0.239136299), (3.106846588, 0.232825965))
            ThreePointArc((3.106846588, 0.232825965), (3.119769319, 0.712066989), (2.900191453, 1.138241268))
            ThreePointArc((2.900191453, 1.138241268), (2.771281292, 1.6), (2.43584158, 1.94251884))
            ThreePointArc((2.43584158, 1.94251884), (2.176552761, 2.34576599), (1.755056494, 2.574195088))
            ThreePointArc((1.755056494, 2.574195088), (1.388427965, 2.883100377), (0.918326936, 2.977142806))
            ThreePointArc((0.918326936, 2.977142806), (0.476935252, 3.164258644), (0, 3.11555832))
            ThreePointArc((0, 3.11555832), (-0.476935252, 3.164258644), (-0.918326936, 2.977142806))
            ThreePointArc((-0.918326936, 2.977142806), (-1.388427965, 2.883100377), (-1.755056494, 2.574195088))
        make_face()
        with BuildLine():
            ThreePointArc((2.3585915, 0.92567895), (2.534832787, 0.796425127), (2.632305363, 0.600806522))
            ThreePointArc((2.632305363, 0.600806522), (2.629361338, 0.382268482), (2.526654558, 0.189346583))
            ThreePointArc((2.526654558, 0.189346583), (2.692450252, -0.201771253), (2.47021327, -0.563810059))
            ThreePointArc((2.47021327, -0.563810059), (2.513359121, -0.986420766), (2.194282693, -1.266869704))
            ThreePointArc((2.194282693, -1.266869704), (2.110945003, -1.683422465), (1.723380469, -1.857362415))
            ThreePointArc((1.723380469, -1.857362415), (1.520964157, -2.230844691), (1.099348328, -2.282820325))
            ThreePointArc((1.099348328, -2.282820325), (0.795838971, -2.580046576), (0.377634263, -2.505439631))
            ThreePointArc((0.377634263, -2.505439631), (0, -2.7), (-0.377634263, -2.505439631))
            ThreePointArc((-0.377634263, -2.505439631), (-0.795838971, -2.580046576), (-1.099348328, -2.282820325))
            ThreePointArc((-1.099348328, -2.282820325), (-1.520964157, -2.230844691), (-1.723380469, -1.857362415))
            ThreePointArc((-1.723380469, -1.857362415), (-2.110945003, -1.683422465), (-2.194282693, -1.266869704))
            ThreePointArc((-2.194282693, -1.266869704), (-2.513359121, -0.986420766), (-2.47021327, -0.563810059))
            ThreePointArc((-2.47021327, -0.563810059), (-2.692450252, -0.201771253), (-2.526654558, 0.189346583))
            ThreePointArc((-2.526654558, 0.189346583), (-2.632305363, 0.600806522), (-2.3585915, 0.92567895))
            ThreePointArc((-2.3585915, 0.92567895), (-2.33826859, 1.35), (-1.980957237, 1.579760681))
            ThreePointArc((-1.980957237, 1.579760681), (-1.836466392, 1.979240054), (-1.42730623, 2.093473742))
            ThreePointArc((-1.42730623, 2.093473742), (-1.171486096, 2.432615943), (-0.746832801, 2.421172474))
            ThreePointArc((-0.746832801, 2.421172474), (-0.402414119, 2.669843231), (0, 2.533739407))
            ThreePointArc((0, 2.533739407), (0.402414119, 2.669843231), (0.746832801, 2.421172474))
            ThreePointArc((0.746832801, 2.421172474), (1.171486096, 2.432615943), (1.42730623, 2.093473742))
            ThreePointArc((1.42730623, 2.093473742), (1.836466392, 1.979240054), (1.980957237, 1.579760681))
            ThreePointArc((1.980957237, 1.579760681), (2.33826859, 1.35), (2.3585915, 0.92567895))
        make_face(mode=Mode.SUBTRACT)
    extrude(amount=CUT_EXTRUDE2_DEPTH, mode=Mode.SUBTRACT)

    # Sketch9 → Boss-Extrude6 (add)
    with BuildSketch(Plane(origin=(0, 4, 0), x_dir=(1, 0, 0), z_dir=(0, 1, 0)).offset(BOSS_EXTRUDE6_START)):
        with BuildLine():
            ThreePointArc((-0.918326936, 2.977142806), (-1.388427965, 2.883100377), (-1.755056494, 2.574195088))
            ThreePointArc((-1.755056494, 2.574195088), (-2.176552761, 2.34576599), (-2.43584158, 1.94251884))
            ThreePointArc((-2.43584158, 1.94251884), (-2.771281292, 1.6), (-2.900191453, 1.138241268))
            ThreePointArc((-2.900191453, 1.138241268), (-3.119769319, 0.712066989), (-3.106846588, 0.232825965))
            ThreePointArc((-3.106846588, 0.232825965), (-3.191052151, -0.239136299), (-3.037444769, -0.693276947))
            ThreePointArc((-3.037444769, -0.693276947), (-2.978795996, -1.169091278), (-2.698152653, -1.55777916))
            ThreePointArc((-2.698152653, -1.55777916), (-2.501860744, -1.995167366), (-2.119117833, -2.283865859))
            ThreePointArc((-2.119117833, -2.283865859), (-1.802624186, -2.643964078), (-1.351790094, -2.807021053))
            ThreePointArc((-1.351790094, -2.807021053), (-0.943216558, -3.057832979), (-0.464349872, -3.080760108))
            ThreePointArc((-0.464349872, -3.080760108), (0, -3.2), (0.464349872, -3.080760108))
            ThreePointArc((0.464349872, -3.080760108), (0.943216558, -3.057832979), (1.351790094, -2.807021053))
            ThreePointArc((1.351790094, -2.807021053), (1.802624186, -2.643964078), (2.119117833, -2.283865859))
            ThreePointArc((2.119117833, -2.283865859), (2.501860744, -1.995167366), (2.698152653, -1.55777916))
            ThreePointArc((2.698152653, -1.55777916), (2.978795996, -1.169091278), (3.037444769, -0.693276947))
            ThreePointArc((3.037444769, -0.693276947), (3.191052151, -0.239136299), (3.106846588, 0.232825965))
            ThreePointArc((3.106846588, 0.232825965), (3.119769319, 0.712066989), (2.900191453, 1.138241268))
            ThreePointArc((2.900191453, 1.138241268), (2.771281292, 1.6), (2.43584158, 1.94251884))
            ThreePointArc((2.43584158, 1.94251884), (2.176552761, 2.34576599), (1.755056494, 2.574195088))
            ThreePointArc((1.755056494, 2.574195088), (1.388427965, 2.883100377), (0.918326936, 2.977142806))
            ThreePointArc((0.918326936, 2.977142806), (0.476935252, 3.164258644), (0, 3.11555832))
            ThreePointArc((0, 3.11555832), (-0.476935252, 3.164258644), (-0.918326936, 2.977142806))
        make_face()
        with BuildLine():
            ThreePointArc((-0.820975398, 2.661536871), (-1.258262843, 2.612809717), (-1.569003529, 2.301305509))
            ThreePointArc((-1.569003529, 2.301305509), (-1.97250094, 2.125850428), (-2.177618811, 1.736593053))
            ThreePointArc((-2.177618811, 1.736593053), (-2.511473671, 1.45), (-2.592743105, 1.017576684))
            ThreePointArc((-2.592743105, 1.017576684), (-2.827290945, 0.645310708), (-2.777490797, 0.20814416))
            ThreePointArc((-2.777490797, 0.20814416), (-2.891891012, -0.216717271), (-2.715446242, -0.619782885))
            ThreePointArc((-2.715446242, -0.619782885), (-2.699533871, -1.059488971), (-2.412122372, -1.392639501))
            ThreePointArc((-2.412122372, -1.392639501), (-2.267311299, -1.808120425), (-1.894470844, -2.041753986))
            ThreePointArc((-1.894470844, -2.041753986), (-1.633628168, -2.396092446), (-1.208487268, -2.509449669))
            ThreePointArc((-1.208487268, -2.509449669), (-0.854790006, -2.771161137), (-0.415124294, -2.754169737))
            ThreePointArc((-0.415124294, -2.754169737), (0, -2.9), (0.415124294, -2.754169737))
            ThreePointArc((0.415124294, -2.754169737), (0.854790006, -2.771161137), (1.208487268, -2.509449669))
            ThreePointArc((1.208487268, -2.509449669), (1.633628168, -2.396092446), (1.894470844, -2.041753986))
            ThreePointArc((1.894470844, -2.041753986), (2.267311299, -1.808120425), (2.412122372, -1.392639501))
            ThreePointArc((2.412122372, -1.392639501), (2.699533871, -1.059488971), (2.715446242, -0.619782885))
            ThreePointArc((2.715446242, -0.619782885), (2.891891012, -0.216717271), (2.777490797, 0.20814416))
            ThreePointArc((2.777490797, 0.20814416), (2.827290945, 0.645310708), (2.592743105, 1.017576684))
            ThreePointArc((2.592743105, 1.017576684), (2.511473671, 1.45), (2.177618811, 1.736593053))
            ThreePointArc((2.177618811, 1.736593053), (1.97250094, 2.125850428), (1.569003529, 2.301305509))
            ThreePointArc((1.569003529, 2.301305509), (1.258262843, 2.612809717), (0.820975398, 2.661536871))
            ThreePointArc((0.820975398, 2.661536871), (0.432222572, 2.867609396), (0, 2.785279002))
            ThreePointArc((0, 2.785279002), (-0.432222572, 2.867609396), (-0.820975398, 2.661536871))
        make_face(mode=Mode.SUBTRACT)
    extrude(amount=BOSS_EXTRUDE6_DEPTH)


solid = part.part
